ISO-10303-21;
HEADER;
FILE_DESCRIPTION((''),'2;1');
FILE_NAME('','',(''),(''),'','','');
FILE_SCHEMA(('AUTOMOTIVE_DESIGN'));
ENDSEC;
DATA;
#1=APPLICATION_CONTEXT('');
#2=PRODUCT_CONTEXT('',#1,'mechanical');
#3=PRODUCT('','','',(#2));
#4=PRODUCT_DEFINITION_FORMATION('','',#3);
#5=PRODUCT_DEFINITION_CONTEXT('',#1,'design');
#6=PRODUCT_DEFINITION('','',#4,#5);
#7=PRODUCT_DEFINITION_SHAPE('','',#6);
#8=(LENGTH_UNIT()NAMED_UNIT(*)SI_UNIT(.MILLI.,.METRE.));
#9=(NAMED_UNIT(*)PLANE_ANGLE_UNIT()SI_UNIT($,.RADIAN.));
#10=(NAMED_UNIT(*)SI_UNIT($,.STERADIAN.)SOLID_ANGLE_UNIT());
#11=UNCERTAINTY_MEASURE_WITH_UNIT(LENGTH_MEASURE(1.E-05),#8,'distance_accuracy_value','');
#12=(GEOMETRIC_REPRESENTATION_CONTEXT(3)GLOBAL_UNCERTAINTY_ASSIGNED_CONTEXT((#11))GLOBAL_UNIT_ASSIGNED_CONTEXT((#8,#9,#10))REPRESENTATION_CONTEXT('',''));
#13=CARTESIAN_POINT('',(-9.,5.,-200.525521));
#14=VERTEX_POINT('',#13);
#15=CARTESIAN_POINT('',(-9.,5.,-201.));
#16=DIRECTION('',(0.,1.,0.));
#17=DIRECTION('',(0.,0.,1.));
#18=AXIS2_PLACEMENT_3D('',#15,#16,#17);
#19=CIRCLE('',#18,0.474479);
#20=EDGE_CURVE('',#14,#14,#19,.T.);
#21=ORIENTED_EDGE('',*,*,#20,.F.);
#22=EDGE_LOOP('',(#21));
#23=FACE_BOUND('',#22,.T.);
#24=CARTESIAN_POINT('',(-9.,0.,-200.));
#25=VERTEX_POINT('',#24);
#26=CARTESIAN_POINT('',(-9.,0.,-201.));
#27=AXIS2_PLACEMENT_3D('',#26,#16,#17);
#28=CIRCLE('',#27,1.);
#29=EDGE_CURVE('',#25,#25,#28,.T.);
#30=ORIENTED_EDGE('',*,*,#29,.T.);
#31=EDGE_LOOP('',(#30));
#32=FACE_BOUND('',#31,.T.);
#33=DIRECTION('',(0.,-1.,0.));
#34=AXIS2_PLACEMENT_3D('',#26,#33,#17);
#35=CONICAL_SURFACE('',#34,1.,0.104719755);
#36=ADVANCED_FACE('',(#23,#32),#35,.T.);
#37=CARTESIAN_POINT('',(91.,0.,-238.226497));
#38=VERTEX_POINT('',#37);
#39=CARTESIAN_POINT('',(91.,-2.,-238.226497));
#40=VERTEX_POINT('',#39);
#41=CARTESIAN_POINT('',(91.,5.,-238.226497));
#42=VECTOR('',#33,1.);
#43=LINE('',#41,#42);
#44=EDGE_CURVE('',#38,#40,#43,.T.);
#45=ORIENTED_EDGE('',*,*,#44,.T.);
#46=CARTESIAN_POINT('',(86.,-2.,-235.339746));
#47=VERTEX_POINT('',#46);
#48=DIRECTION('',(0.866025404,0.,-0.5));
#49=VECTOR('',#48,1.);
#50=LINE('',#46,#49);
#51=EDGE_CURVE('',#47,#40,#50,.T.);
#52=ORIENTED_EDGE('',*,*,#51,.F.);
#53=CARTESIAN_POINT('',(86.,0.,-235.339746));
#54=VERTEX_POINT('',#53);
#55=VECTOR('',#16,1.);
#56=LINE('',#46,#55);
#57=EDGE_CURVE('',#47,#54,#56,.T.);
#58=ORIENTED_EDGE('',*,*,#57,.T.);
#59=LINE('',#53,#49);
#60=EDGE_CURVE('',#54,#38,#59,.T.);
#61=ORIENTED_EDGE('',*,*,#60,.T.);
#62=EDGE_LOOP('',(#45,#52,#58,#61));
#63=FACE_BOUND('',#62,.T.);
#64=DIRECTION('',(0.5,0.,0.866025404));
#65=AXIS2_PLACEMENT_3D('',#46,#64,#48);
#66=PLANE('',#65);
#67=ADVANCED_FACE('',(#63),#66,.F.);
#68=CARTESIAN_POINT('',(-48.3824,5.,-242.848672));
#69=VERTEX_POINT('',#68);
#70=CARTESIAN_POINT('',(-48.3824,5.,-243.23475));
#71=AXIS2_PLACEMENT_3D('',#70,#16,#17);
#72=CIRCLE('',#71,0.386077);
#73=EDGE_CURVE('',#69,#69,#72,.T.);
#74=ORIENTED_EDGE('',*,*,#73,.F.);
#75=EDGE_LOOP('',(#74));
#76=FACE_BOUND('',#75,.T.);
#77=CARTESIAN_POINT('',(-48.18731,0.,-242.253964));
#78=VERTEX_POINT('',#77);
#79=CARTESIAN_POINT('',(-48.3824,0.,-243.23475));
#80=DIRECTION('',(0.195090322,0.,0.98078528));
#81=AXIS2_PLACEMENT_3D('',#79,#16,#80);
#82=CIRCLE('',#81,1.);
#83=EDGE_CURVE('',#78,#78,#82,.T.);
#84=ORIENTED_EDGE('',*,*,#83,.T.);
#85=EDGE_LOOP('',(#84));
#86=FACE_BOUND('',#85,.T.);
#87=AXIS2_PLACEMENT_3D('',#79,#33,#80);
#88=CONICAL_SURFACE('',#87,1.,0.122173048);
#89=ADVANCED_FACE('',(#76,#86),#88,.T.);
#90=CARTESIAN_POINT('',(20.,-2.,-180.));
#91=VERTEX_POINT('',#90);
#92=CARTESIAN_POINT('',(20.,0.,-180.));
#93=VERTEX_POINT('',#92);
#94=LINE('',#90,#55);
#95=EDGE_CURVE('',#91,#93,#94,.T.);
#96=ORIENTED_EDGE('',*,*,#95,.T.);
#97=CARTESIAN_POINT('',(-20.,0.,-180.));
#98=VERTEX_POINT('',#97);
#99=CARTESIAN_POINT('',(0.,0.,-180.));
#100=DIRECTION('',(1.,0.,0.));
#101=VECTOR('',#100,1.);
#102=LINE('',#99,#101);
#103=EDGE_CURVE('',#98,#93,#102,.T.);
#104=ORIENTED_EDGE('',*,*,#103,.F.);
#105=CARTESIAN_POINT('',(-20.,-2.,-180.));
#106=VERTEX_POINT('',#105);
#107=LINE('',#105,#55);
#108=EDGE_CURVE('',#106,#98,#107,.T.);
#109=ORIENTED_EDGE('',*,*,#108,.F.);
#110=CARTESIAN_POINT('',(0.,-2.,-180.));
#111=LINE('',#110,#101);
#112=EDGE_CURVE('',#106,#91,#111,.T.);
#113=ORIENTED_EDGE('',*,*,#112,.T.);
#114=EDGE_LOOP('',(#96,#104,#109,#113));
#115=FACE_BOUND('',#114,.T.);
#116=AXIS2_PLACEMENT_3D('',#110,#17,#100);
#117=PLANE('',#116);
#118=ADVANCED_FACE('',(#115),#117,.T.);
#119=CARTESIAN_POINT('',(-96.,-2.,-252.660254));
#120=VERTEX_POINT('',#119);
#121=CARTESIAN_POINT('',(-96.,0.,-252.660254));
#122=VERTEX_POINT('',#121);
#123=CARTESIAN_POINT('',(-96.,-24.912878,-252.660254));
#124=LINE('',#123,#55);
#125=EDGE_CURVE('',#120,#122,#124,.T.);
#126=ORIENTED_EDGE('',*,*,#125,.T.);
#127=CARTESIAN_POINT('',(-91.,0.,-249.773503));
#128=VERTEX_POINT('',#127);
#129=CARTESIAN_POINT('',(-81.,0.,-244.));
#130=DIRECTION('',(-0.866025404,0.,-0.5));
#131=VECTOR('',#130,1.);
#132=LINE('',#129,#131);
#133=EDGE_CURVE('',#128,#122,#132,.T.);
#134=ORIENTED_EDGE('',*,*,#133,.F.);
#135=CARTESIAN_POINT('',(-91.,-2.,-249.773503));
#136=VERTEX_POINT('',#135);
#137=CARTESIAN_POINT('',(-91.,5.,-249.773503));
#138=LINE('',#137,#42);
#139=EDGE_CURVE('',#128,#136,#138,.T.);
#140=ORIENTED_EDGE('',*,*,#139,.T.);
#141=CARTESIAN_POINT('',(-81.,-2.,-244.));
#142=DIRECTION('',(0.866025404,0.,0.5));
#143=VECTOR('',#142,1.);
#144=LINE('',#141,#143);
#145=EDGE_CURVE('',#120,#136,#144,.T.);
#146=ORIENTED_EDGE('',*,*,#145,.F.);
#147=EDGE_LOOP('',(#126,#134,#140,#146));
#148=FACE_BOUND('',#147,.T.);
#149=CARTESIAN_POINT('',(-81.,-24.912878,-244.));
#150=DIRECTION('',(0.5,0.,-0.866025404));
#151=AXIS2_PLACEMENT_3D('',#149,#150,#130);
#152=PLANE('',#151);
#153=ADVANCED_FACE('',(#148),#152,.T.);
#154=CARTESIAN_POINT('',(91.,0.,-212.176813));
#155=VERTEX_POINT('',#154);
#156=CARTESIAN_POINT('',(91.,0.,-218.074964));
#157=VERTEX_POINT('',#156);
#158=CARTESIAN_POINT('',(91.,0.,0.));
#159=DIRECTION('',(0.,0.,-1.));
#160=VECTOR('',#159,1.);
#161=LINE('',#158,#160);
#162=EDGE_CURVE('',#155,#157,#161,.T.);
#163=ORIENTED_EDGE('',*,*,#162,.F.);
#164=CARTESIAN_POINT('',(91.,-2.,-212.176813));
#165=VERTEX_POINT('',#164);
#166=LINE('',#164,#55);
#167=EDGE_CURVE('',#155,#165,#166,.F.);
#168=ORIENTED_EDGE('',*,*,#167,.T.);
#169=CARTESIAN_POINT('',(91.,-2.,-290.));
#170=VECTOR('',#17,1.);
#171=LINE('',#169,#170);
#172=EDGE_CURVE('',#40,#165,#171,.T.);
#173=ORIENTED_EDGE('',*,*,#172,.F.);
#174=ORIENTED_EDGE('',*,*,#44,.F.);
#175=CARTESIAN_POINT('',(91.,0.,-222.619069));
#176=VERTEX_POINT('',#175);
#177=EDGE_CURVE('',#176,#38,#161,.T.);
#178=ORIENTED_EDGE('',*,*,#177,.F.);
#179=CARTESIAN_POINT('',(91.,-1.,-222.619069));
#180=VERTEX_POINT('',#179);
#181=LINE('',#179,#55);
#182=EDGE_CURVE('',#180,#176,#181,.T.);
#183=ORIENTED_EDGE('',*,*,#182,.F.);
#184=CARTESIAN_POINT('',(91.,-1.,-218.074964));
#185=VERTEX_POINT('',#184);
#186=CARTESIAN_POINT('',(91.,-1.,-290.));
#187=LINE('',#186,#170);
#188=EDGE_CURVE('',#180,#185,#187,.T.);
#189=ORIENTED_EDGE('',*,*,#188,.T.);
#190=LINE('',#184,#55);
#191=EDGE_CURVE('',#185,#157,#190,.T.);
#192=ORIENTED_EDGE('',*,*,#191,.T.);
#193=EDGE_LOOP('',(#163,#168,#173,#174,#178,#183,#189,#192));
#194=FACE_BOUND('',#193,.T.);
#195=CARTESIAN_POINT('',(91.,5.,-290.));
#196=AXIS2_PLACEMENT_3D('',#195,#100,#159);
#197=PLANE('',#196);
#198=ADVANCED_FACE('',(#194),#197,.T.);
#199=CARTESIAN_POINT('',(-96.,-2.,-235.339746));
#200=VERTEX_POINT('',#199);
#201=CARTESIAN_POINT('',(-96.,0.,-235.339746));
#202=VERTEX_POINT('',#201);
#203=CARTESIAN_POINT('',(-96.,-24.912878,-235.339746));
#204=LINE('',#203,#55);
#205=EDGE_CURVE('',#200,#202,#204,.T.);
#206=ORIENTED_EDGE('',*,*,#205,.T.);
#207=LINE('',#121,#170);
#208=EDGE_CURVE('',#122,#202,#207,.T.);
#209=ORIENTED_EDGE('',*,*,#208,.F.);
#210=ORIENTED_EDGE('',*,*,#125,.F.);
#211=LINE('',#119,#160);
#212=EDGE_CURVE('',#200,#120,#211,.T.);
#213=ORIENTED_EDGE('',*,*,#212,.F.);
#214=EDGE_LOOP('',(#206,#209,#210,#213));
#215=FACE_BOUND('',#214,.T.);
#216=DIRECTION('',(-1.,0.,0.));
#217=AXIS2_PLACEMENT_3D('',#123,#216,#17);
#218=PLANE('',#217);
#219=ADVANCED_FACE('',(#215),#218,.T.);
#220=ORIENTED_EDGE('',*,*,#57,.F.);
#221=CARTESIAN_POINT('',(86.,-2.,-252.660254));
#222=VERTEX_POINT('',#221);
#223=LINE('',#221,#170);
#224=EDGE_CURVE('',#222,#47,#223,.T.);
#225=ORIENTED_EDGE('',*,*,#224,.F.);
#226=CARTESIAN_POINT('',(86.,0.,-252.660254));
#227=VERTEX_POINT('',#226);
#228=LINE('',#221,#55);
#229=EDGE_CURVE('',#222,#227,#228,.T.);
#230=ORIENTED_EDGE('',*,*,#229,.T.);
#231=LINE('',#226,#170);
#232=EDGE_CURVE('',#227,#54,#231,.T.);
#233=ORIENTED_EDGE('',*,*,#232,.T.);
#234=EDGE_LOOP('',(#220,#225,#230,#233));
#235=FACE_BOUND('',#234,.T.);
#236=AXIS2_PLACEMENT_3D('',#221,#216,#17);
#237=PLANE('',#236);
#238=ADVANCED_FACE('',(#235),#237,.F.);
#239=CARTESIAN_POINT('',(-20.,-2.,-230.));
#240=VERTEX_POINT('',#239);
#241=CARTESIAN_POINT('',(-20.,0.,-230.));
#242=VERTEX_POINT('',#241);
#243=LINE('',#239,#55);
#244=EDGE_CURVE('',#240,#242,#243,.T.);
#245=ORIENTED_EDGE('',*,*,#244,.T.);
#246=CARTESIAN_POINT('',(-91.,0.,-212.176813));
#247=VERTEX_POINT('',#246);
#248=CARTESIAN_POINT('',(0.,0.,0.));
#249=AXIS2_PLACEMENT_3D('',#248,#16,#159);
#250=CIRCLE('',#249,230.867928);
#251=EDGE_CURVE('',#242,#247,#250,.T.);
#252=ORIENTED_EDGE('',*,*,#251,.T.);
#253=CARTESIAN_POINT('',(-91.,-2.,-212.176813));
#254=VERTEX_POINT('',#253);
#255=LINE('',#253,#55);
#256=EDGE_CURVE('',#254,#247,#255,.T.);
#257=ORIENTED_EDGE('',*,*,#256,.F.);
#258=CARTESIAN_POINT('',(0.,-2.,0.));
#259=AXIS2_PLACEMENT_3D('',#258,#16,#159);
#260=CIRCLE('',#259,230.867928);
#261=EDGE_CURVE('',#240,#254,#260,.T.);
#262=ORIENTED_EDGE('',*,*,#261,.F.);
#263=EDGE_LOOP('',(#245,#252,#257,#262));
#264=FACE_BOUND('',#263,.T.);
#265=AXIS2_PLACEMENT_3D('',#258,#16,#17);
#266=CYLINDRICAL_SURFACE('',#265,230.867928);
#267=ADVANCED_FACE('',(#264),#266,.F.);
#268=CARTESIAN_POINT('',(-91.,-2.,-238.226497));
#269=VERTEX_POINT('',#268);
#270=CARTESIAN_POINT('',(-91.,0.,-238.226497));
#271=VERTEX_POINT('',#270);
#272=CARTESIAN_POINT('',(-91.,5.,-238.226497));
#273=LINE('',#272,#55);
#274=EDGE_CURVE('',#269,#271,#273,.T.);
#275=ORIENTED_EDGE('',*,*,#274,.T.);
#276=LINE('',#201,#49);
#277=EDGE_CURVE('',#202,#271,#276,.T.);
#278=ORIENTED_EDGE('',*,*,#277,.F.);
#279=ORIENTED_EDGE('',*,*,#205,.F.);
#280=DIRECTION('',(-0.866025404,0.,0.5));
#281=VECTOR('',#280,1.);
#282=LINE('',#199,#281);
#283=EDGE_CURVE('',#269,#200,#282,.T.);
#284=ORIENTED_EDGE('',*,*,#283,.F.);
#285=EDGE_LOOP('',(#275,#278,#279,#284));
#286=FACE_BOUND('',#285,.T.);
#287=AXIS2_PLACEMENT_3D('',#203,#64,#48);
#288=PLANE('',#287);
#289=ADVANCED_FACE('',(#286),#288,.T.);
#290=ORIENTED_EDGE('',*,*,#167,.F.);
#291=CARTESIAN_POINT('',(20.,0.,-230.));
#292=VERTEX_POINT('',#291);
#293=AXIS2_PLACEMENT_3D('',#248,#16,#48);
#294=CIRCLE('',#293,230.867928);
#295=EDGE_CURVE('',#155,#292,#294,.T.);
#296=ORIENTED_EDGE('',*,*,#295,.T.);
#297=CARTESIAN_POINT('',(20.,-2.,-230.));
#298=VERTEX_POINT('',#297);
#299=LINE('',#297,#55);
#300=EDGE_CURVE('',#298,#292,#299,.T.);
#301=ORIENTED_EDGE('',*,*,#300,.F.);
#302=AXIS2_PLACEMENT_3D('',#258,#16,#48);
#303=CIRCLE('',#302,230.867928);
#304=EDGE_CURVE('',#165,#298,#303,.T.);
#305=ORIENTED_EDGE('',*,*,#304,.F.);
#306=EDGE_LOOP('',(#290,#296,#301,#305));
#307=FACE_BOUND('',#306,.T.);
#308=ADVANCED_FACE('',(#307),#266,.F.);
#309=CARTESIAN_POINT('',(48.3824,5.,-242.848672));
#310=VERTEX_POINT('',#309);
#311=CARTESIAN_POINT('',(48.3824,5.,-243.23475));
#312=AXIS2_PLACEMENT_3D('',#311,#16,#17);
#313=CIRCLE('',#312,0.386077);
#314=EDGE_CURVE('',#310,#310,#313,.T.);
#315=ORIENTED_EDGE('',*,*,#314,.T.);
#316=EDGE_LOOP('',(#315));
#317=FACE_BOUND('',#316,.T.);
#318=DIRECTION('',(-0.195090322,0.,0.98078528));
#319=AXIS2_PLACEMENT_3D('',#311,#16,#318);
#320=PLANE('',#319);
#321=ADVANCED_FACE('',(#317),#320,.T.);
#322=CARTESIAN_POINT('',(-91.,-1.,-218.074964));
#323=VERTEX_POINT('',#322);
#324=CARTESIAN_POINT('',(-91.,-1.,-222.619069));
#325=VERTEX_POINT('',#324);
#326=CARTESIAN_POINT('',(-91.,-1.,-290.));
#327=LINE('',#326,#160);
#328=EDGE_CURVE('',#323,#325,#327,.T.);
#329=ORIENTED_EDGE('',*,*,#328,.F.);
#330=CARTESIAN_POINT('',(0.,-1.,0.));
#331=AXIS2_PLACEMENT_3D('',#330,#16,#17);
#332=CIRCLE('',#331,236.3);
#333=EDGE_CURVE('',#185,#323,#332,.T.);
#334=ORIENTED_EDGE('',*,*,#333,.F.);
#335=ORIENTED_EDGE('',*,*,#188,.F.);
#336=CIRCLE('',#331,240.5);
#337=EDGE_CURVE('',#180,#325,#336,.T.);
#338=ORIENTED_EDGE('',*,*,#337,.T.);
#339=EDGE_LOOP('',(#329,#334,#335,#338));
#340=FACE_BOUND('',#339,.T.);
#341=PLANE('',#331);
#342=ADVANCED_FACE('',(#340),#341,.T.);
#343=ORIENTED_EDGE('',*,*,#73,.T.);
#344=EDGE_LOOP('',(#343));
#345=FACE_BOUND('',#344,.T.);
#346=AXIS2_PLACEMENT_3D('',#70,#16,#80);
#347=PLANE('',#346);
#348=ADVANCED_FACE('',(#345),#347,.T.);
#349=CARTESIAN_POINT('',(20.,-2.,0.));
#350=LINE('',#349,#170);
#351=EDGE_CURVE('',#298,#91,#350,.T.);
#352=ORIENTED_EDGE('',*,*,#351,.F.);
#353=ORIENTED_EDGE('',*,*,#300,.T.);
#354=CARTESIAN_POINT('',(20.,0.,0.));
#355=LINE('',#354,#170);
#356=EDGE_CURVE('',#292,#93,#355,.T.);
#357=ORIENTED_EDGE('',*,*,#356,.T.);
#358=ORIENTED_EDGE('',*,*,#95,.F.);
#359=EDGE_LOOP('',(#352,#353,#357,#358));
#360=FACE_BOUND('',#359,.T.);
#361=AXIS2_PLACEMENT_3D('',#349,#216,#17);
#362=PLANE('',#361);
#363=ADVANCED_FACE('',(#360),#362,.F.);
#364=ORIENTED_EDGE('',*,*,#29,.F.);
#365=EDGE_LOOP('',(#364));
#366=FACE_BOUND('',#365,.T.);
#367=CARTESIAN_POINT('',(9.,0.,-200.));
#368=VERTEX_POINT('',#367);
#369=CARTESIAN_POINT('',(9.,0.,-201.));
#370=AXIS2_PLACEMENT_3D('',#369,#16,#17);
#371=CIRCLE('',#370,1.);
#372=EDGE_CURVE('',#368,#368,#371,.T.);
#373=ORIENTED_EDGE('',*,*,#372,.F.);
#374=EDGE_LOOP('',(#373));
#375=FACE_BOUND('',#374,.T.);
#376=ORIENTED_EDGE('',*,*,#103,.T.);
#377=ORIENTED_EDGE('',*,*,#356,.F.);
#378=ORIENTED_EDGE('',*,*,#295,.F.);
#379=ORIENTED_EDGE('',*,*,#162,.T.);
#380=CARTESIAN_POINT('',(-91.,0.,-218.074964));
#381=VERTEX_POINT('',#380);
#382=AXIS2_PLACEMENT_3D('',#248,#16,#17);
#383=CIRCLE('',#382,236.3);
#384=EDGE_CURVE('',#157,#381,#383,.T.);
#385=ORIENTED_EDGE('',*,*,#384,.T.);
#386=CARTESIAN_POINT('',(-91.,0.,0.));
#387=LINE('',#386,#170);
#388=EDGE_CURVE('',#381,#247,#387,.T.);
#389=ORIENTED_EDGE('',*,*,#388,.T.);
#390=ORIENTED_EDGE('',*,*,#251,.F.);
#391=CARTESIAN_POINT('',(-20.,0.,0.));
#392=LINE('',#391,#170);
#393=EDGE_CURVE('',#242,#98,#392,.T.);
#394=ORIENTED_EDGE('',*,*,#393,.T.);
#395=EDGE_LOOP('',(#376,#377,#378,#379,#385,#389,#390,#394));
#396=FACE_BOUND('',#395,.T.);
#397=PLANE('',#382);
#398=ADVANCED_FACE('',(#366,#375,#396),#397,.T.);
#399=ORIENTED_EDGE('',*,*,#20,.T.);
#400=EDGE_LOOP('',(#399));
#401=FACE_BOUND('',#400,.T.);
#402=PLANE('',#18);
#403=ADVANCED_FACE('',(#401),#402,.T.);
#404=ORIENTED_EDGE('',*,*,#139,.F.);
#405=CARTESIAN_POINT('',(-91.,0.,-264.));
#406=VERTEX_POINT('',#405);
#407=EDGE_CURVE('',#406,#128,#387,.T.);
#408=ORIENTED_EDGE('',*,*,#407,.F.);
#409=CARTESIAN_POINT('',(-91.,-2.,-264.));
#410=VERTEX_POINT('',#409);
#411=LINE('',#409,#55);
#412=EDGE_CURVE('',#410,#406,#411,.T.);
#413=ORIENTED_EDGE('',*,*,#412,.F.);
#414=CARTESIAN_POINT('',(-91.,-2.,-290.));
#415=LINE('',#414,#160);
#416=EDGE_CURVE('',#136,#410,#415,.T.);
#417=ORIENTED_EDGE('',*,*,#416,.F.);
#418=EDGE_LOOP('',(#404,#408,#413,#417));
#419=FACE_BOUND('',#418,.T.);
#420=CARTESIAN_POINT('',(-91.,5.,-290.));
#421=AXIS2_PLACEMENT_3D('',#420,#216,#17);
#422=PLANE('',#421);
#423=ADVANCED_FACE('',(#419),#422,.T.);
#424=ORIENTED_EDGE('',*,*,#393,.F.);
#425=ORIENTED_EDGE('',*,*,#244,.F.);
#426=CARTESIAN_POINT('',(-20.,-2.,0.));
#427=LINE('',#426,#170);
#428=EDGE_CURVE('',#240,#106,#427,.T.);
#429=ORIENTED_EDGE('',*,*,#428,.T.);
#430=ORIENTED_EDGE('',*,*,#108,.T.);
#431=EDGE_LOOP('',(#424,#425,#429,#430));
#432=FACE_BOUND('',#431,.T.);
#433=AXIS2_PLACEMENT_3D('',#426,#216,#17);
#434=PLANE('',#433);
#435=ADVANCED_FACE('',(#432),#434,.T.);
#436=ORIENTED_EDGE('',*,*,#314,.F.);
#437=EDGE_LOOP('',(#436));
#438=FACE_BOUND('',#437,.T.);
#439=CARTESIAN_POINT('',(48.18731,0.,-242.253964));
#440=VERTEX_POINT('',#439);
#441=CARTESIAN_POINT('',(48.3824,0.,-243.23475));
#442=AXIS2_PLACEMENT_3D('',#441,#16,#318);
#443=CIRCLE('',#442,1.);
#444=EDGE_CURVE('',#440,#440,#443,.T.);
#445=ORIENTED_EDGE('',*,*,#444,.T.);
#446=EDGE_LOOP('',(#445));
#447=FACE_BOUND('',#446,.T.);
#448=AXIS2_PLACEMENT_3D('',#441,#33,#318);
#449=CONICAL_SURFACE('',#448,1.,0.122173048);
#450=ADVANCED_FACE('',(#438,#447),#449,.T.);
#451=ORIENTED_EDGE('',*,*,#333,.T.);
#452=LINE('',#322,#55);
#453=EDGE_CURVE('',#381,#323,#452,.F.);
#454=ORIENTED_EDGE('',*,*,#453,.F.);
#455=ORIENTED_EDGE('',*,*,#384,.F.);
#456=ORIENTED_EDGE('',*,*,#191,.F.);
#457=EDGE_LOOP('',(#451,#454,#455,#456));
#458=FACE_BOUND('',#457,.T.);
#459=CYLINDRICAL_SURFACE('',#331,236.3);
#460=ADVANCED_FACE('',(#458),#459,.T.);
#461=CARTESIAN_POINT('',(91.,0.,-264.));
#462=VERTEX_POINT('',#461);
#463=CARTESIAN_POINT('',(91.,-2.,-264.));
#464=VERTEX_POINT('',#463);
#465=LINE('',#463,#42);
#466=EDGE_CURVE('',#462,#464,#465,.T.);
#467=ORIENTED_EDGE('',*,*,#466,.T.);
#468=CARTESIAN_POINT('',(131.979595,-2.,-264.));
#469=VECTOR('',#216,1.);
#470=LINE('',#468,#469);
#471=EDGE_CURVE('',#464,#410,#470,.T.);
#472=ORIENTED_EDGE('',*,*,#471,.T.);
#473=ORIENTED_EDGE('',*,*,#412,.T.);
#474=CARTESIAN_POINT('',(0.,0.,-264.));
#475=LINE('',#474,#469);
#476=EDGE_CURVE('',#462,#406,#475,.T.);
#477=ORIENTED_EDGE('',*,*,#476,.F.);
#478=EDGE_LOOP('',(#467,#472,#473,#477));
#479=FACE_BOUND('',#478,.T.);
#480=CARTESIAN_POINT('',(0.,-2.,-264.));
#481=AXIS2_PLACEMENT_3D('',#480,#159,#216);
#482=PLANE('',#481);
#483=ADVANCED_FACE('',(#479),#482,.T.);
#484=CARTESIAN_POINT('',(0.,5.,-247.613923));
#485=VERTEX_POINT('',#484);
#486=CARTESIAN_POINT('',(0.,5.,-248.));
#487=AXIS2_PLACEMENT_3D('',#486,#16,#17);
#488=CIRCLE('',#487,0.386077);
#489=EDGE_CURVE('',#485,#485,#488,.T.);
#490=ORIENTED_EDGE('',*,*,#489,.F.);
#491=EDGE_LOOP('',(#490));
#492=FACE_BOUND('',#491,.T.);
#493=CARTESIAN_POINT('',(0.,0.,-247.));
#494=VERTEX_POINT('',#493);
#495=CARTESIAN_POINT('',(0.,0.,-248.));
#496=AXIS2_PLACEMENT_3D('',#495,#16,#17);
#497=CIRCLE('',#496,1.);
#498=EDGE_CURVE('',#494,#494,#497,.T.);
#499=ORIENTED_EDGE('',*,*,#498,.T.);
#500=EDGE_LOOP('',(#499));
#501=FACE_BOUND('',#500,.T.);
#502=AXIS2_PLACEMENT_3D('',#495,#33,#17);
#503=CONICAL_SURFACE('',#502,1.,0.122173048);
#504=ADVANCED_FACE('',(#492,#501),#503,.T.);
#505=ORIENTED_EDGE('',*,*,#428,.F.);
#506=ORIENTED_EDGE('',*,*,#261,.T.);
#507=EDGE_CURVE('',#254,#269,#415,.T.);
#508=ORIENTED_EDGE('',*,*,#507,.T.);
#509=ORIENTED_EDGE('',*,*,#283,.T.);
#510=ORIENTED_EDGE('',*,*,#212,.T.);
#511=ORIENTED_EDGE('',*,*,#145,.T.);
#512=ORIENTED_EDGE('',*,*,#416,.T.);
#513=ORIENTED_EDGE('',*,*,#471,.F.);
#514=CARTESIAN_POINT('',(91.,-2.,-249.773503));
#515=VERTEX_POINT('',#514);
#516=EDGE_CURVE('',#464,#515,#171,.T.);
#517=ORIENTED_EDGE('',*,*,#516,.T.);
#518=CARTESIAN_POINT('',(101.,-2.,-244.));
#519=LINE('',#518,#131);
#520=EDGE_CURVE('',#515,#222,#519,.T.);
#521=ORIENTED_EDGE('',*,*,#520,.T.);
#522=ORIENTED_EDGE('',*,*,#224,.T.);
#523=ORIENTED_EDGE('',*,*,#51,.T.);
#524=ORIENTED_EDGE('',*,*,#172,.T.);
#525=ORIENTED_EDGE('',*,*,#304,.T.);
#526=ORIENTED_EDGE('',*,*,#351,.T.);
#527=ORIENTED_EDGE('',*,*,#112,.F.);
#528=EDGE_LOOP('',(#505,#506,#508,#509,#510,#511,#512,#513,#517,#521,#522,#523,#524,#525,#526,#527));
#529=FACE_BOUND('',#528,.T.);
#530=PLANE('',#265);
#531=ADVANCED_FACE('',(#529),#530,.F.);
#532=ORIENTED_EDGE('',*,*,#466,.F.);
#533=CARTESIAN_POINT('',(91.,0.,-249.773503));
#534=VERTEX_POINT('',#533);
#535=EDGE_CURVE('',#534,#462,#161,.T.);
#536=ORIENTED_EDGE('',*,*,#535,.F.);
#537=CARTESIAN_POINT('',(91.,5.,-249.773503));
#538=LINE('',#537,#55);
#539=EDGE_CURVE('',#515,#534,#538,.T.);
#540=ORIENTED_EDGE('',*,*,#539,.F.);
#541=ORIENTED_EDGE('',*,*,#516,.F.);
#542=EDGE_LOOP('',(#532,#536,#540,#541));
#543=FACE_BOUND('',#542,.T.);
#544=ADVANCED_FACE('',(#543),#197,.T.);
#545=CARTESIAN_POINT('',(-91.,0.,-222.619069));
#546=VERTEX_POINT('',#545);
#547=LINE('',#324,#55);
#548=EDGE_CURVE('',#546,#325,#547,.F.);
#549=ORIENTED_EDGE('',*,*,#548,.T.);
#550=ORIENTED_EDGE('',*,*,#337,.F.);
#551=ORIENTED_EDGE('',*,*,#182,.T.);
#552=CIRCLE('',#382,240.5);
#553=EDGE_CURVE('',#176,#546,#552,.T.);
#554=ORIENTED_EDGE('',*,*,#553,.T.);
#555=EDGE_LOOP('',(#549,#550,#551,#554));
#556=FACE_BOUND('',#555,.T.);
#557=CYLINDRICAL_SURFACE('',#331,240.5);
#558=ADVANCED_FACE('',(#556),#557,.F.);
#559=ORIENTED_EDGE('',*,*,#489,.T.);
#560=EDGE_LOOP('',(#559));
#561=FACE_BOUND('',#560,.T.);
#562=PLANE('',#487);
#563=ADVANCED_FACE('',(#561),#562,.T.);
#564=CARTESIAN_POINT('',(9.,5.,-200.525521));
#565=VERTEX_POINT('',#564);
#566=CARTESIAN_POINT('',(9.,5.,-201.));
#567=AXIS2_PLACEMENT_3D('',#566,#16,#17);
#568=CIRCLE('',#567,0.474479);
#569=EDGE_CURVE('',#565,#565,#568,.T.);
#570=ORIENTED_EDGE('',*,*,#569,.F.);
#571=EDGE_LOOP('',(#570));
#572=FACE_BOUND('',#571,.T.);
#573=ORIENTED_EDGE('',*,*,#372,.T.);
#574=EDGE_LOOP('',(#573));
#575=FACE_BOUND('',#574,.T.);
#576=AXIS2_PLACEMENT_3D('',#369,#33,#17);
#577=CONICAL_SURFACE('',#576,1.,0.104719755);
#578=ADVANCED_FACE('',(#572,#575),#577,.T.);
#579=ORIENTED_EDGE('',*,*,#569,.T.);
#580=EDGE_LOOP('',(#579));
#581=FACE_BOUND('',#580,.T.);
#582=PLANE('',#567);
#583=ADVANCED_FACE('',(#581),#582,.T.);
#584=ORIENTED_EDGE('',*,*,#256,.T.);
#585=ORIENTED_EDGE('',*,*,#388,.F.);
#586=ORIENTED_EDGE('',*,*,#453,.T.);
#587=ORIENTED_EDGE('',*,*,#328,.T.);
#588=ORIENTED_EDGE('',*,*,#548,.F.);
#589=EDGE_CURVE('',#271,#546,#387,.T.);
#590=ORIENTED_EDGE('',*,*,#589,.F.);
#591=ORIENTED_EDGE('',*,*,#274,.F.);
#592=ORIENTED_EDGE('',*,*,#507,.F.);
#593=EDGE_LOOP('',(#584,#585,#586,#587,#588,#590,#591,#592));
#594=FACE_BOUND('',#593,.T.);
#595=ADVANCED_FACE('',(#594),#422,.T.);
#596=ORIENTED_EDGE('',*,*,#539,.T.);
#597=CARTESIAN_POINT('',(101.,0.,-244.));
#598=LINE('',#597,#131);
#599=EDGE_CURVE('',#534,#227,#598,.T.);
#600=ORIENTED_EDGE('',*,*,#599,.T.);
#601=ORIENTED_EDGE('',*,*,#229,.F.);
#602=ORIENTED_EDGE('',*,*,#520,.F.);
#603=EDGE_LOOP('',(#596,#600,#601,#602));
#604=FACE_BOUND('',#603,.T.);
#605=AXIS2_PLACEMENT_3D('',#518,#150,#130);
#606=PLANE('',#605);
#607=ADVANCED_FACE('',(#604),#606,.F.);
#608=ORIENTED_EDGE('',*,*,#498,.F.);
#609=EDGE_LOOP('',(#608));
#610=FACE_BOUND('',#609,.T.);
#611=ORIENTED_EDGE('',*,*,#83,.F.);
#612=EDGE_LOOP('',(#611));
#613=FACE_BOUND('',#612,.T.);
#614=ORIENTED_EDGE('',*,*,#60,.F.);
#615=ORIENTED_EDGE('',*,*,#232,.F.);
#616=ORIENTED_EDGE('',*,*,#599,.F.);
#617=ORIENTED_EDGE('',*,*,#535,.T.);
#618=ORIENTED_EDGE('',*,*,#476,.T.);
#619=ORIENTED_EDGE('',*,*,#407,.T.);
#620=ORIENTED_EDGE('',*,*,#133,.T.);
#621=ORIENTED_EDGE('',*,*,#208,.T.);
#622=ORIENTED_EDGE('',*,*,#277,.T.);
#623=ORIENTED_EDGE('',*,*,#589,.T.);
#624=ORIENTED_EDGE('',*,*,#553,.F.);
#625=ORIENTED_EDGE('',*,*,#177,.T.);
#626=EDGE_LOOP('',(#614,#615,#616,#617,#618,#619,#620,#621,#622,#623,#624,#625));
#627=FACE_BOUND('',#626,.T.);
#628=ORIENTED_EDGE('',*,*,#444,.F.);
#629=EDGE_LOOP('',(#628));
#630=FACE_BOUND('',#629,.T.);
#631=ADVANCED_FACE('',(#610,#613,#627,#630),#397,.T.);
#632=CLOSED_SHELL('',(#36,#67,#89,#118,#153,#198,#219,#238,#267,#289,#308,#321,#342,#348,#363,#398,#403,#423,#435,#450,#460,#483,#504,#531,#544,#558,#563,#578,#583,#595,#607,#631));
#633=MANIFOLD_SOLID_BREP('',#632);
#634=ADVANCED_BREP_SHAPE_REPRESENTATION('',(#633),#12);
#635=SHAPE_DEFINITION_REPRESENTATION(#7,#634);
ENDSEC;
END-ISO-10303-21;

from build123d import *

# Parameters (mm, degrees)
BASEPLATE_PROFILE_DEPTH               = 2
SKETCH2_R                             = 1
M3_PINS_DEPTH                         = 5
M3_PINS_TAPER                         = 7
CIRPATTERN1_COUNT                     = 32
SKETCH4_R                             = 1
PILLAR_PINS_DEPTH                     = 5
PILLAR_PINS_DRAFT                     = 6
PILLAR_PINS_PROFILE_2_DEPTH           = 5
PILLAR_PINS_PROFILE_2_DRAFT           = 6
CIRPATTERN2_COPY_1_SKETCH_R           = 1
CIRPATTERN2_COPY_1_DEPTH              = 5
CIRPATTERN2_COPY_1_DRAFT              = 6
CIRPATTERN2_COPY_2_SKETCH_R           = 1
CIRPATTERN2_COPY_2_DEPTH              = 5
CIRPATTERN2_COPY_2_DRAFT              = 6
CIRPATTERN2_COPY_3_SKETCH_R           = 1
CIRPATTERN2_COPY_3_DEPTH              = 5
CIRPATTERN2_COPY_3_DRAFT              = 6
CIRPATTERN2_COPY_4_SKETCH_R           = 1
CIRPATTERN2_COPY_4_DEPTH              = 5
CIRPATTERN2_COPY_4_DRAFT              = 6
CIRPATTERN2_COPY_5_SKETCH_R           = 1
CIRPATTERN2_COPY_5_DEPTH              = 5
CIRPATTERN2_COPY_5_DRAFT              = 6
CIRPATTERN2_COPY_6_SKETCH_R           = 1
CIRPATTERN2_COPY_6_DEPTH              = 5
CIRPATTERN2_COPY_6_DRAFT              = 6
CIRPATTERN2_COPY_7_SKETCH_R           = 1
CIRPATTERN2_COPY_7_DEPTH              = 5
CIRPATTERN2_COPY_7_DRAFT              = 6
CIRPATTERN2_COPY_8_SKETCH_R           = 1
CIRPATTERN2_COPY_8_DEPTH              = 5
CIRPATTERN2_COPY_8_DRAFT              = 6
CIRPATTERN2_COPY_9_SKETCH_R           = 1
CIRPATTERN2_COPY_9_DEPTH              = 5
CIRPATTERN2_COPY_9_DRAFT              = 6
CIRPATTERN2_COPY_10_SKETCH_R          = 1
CIRPATTERN2_COPY_10_DEPTH             = 5
CIRPATTERN2_COPY_10_DRAFT             = 6
CIRPATTERN2_COPY_11_SKETCH_R          = 1
CIRPATTERN2_COPY_11_DEPTH             = 5
CIRPATTERN2_COPY_11_DRAFT             = 6
CIRPATTERN2_COPY_12_SKETCH_R          = 1
CIRPATTERN2_COPY_12_DEPTH             = 5
CIRPATTERN2_COPY_12_DRAFT             = 6
CIRPATTERN2_COPY_13_SKETCH_R          = 1
CIRPATTERN2_COPY_13_DEPTH             = 5
CIRPATTERN2_COPY_13_DRAFT             = 6
CIRPATTERN2_COPY_14_SKETCH_R          = 1
CIRPATTERN2_COPY_14_DEPTH             = 5
CIRPATTERN2_COPY_14_DRAFT             = 6
CIRPATTERN2_COPY_15_SKETCH_R          = 1
CIRPATTERN2_COPY_15_DEPTH             = 5
CIRPATTERN2_COPY_15_DRAFT             = 6
SKETCH5_R                             = 3
M8_HOLE_1_DEPTH                       = 5
M8_HOLE_1_TAPER                       = 12
M8_1_PATTERN_COUNT                    = 4
SKETCH6_R                             = 3
EXTRUDE_M8_2_DEPTH                    = 5
EXTRUDE_M8_2_TAPER                    = 12
M8_2_PATTERN_COUNT                    = 4
PATTERN_CIRCULAR_M8_3_COUNT           = 2
PATTERN_CIRCULAR_M8_3_ANGLE           = 36.9
PATTERN_CIRCULAR_M8_3_COPY_1_SKETCH_R = 3
PATTERN_CIRCULAR_M8_3_COPY_1_DEPTH    = 5
PATTERN_CIRCULAR_M8_3_COPY_1_TAPER    = 12
PATTERN_CIRCULAR_M8_3_COPY_2_SKETCH_R = 3
PATTERN_CIRCULAR_M8_3_COPY_2_DEPTH    = 5
PATTERN_CIRCULAR_M8_3_COPY_2_TAPER    = 12
PATTERN_CIRCULAR_M8_3_COPY_3_SKETCH_R = 3
PATTERN_CIRCULAR_M8_3_COPY_3_DEPTH    = 5
PATTERN_CIRCULAR_M8_3_COPY_3_TAPER    = 12
CUT_CENTER_DEPTH                      = 374.385859402
CIRPATTERN7_COUNT                     = 6
SKETCH15_W                            = 794.241353176
SKETCH15_H                            = 757.161766401
SKETCH15_W_2                          = 182
SKETCH15_H_2                          = 180
CUT_EXTRUDE3_DEPTH                    = 374.417996354
BOSS_EXTRUDE2_DEPTH                   = 2
CUT_EXTRUDE4_DEPTH                    = 281.95729213
SKETCH18_R                            = 240.5
SKETCH18_R_2                          = 236.3
CUT_EXTRUDE5_DEPTH                    = 1


with BuildPart() as part:
    # Sketch1 → baseplate profile (new body)
    with BuildSketch(Plane(origin=(0, 0, 0), x_dir=(1, 0, 0), z_dir=(0, 1, 0))):
        Polygon((264, 0), (264, 131.98), (131.979594929, 264), (0, 264), (-131.98, 264), (-264, 131.979594929), (-264, 0), (-264, -131.98), (-131.979594929, -264), (0, -264), (131.98, -264), (264, -131.979594929), align=None)
    extrude(amount=-BASEPLATE_PROFILE_DEPTH)

    # Sketch2 → M3 pins (add)
    with BuildSketch(Plane(origin=(0, 0, 0), x_dir=(1, 0, 0), z_dir=(0, 1, 0))):
        with Locations((0, 248)):
            Circle(SKETCH2_R)
    m3_pins = extrude(amount=M3_PINS_DEPTH, taper=M3_PINS_TAPER)

    # CirPattern1: M3 pins ×32 about axis
    cirpattern1_axis = Axis((0, 0, 0), (0, 1, 0))
    for i in range(1, CIRPATTERN1_COUNT):
        add(m3_pins.rotate(cirpattern1_axis, i * 360 / CIRPATTERN1_COUNT))


with BuildPart() as pillar_pins_tool:
    # Sketch4 → pillar pins (with draft: the straight prism first)
    with BuildSketch(Plane(origin=(0, 0, 0), x_dir=(1, 0, 0), z_dir=(0, 1, 0))):
        with Locations((9, 201)):
            Circle(SKETCH4_R)
    extrude(amount=PILLAR_PINS_DEPTH)
    # pillar pins: the draft: its side faces are tilted about the plane it starts from
    pillar_pins_sides = [pillar_pins_tool.faces().sort_by_distance(p)[0] for p in [
        (8, 2.5, -201),
    ]]
    draft(pillar_pins_sides, Plane(origin=(0, 0, 0), x_dir=(1, 0, 0), z_dir=(0, 1, 0)), PILLAR_PINS_DRAFT)


with BuildPart() as part_1:
    add(part.part)

    # pillar pins: add pillar_pins_tool
    add(pillar_pins_tool.part)


with BuildPart() as pillar_pins_profile_2_tool:
    # Sketch4 → pillar pins profile 2 (with draft: the straight prism first)
    with BuildSketch(Plane(origin=(0, 0, 0), x_dir=(1, 0, 0), z_dir=(0, 1, 0))):
        with Locations((-9, 201)):
            Circle(SKETCH4_R)
    extrude(amount=PILLAR_PINS_PROFILE_2_DEPTH)
    # pillar pins profile 2: the draft: its side faces are tilted about the plane it starts from
    pillar_pins_profile_2_sides = [pillar_pins_profile_2_tool.faces().sort_by_distance(p)[0] for p in [
        (-10, 2.5, -201),
    ]]
    draft(pillar_pins_profile_2_sides, Plane(origin=(0, 0, 0), x_dir=(1, 0, 0), z_dir=(0, 1, 0)), PILLAR_PINS_PROFILE_2_DRAFT)


with BuildPart() as part_2:
    add(part_1.part)

    # pillar pins profile 2: add pillar_pins_profile_2_tool
    add(pillar_pins_profile_2_tool.part)


with BuildPart() as cirpattern2_copy_1_tool:
    # CirPattern2 copy 1 sketch → CirPattern2 copy 1 (with draft: the straight prism first)
    with BuildSketch(Plane(origin=(0, 0, 0), x_dir=(0.5000000000000001, 0, -0.8660254037844386), z_dir=(0, 1, 0))):
        with Locations((9, 201)):
            Circle(CIRPATTERN2_COPY_1_SKETCH_R)
    extrude(amount=CIRPATTERN2_COPY_1_DEPTH)
    # CirPattern2 copy 1: the draft: its side faces are tilted about the plane it starts from
    cirpattern2_copy_1_sides = [cirpattern2_copy_1_tool.faces().sort_by_distance(p)[0] for p in [
        (-170.071106161, 2.5, -107.42820323),
    ]]
    draft(cirpattern2_copy_1_sides, Plane(origin=(0, 0, 0), x_dir=(0.5000000000000001, 0, -0.8660254037844386), z_dir=(0, 1, 0)), CIRPATTERN2_COPY_1_DRAFT)


with BuildPart() as part_3:
    add(part_2.part)

    # CirPattern2 copy 1: add cirpattern2_copy_1_tool
    add(cirpattern2_copy_1_tool.part)


with BuildPart() as cirpattern2_copy_2_tool:
    # CirPattern2 copy 2 sketch → CirPattern2 copy 2 (with draft: the straight prism first)
    with BuildSketch(Plane(origin=(0, 0, 0), x_dir=(-0.4999999999999998, 0, -0.8660254037844387), z_dir=(0, 1, 0))):
        with Locations((9, 201)):
            Circle(CIRPATTERN2_COPY_2_SKETCH_R)
    extrude(amount=CIRPATTERN2_COPY_2_DEPTH)
    # CirPattern2 copy 2: the draft: its side faces are tilted about the plane it starts from
    cirpattern2_copy_2_sides = [cirpattern2_copy_2_tool.faces().sort_by_distance(p)[0] for p in [
        (-178.071106161, 2.5, 93.57179677),
    ]]
    draft(cirpattern2_copy_2_sides, Plane(origin=(0, 0, 0), x_dir=(-0.4999999999999998, 0, -0.8660254037844387), z_dir=(0, 1, 0)), CIRPATTERN2_COPY_2_DRAFT)


with BuildPart() as part_4:
    add(part_3.part)

    # CirPattern2 copy 2: add cirpattern2_copy_2_tool
    add(cirpattern2_copy_2_tool.part)


with BuildPart() as cirpattern2_copy_3_tool:
    # CirPattern2 copy 3 sketch → CirPattern2 copy 3 (with draft: the straight prism first)
    with BuildSketch(Plane(origin=(0, 0, 0), x_dir=(-1, 0, 0), z_dir=(0, 1, 0))):
        with Locations((9, 201)):
            Circle(CIRPATTERN2_COPY_3_SKETCH_R)
    extrude(amount=CIRPATTERN2_COPY_3_DEPTH)
    # CirPattern2 copy 3: the draft: its side faces are tilted about the plane it starts from
    cirpattern2_copy_3_sides = [cirpattern2_copy_3_tool.faces().sort_by_distance(p)[0] for p in [
        (-8, 2.5, 201),
    ]]
    draft(cirpattern2_copy_3_sides, Plane(origin=(0, 0, 0), x_dir=(-1, 0, 0), z_dir=(0, 1, 0)), CIRPATTERN2_COPY_3_DRAFT)


with BuildPart() as part_5:
    add(part_4.part)

    # CirPattern2 copy 3: add cirpattern2_copy_3_tool
    add(cirpattern2_copy_3_tool.part)


with BuildPart() as cirpattern2_copy_4_tool:
    # CirPattern2 copy 4 sketch → CirPattern2 copy 4 (with draft: the straight prism first)
    with BuildSketch(Plane(origin=(0, 0, 0), x_dir=(-0.5000000000000004, 0, 0.8660254037844384), z_dir=(0, 1, 0))):
        with Locations((9, 201)):
            Circle(CIRPATTERN2_COPY_4_SKETCH_R)
    extrude(amount=CIRPATTERN2_COPY_4_DEPTH)
    # CirPattern2 copy 4: the draft: its side faces are tilted about the plane it starts from
    cirpattern2_copy_4_sides = [cirpattern2_copy_4_tool.faces().sort_by_distance(p)[0] for p in [
        (170.071106161, 2.5, 107.42820323),
    ]]
    draft(cirpattern2_copy_4_sides, Plane(origin=(0, 0, 0), x_dir=(-0.5000000000000004, 0, 0.8660254037844384), z_dir=(0, 1, 0)), CIRPATTERN2_COPY_4_DRAFT)


with BuildPart() as part_6:
    add(part_5.part)

    # CirPattern2 copy 4: add cirpattern2_copy_4_tool
    add(cirpattern2_copy_4_tool.part)


with BuildPart() as cirpattern2_copy_5_tool:
    # CirPattern2 copy 5 sketch → CirPattern2 copy 5 (with draft: the straight prism first)
    with BuildSketch(Plane(origin=(0, 0, 0), x_dir=(0.5000000000000001, 0, 0.8660254037844386), z_dir=(0, 1, 0))):
        with Locations((9, 201)):
            Circle(CIRPATTERN2_COPY_5_SKETCH_R)
    extrude(amount=CIRPATTERN2_COPY_5_DEPTH)
    # CirPattern2 copy 5: the draft: its side faces are tilted about the plane it starts from
    cirpattern2_copy_5_sides = [cirpattern2_copy_5_tool.faces().sort_by_distance(p)[0] for p in [
        (178.071106161, 2.5, -93.57179677),
    ]]
    draft(cirpattern2_copy_5_sides, Plane(origin=(0, 0, 0), x_dir=(0.5000000000000001, 0, 0.8660254037844386), z_dir=(0, 1, 0)), CIRPATTERN2_COPY_5_DRAFT)


with BuildPart() as part_7:
    add(part_6.part)

    # CirPattern2 copy 5: add cirpattern2_copy_5_tool
    add(cirpattern2_copy_5_tool.part)


with BuildPart() as cirpattern2_copy_6_tool:
    # CirPattern2 copy 6 sketch → CirPattern2 copy 6 (with draft: the straight prism first)
    with BuildSketch(Plane(origin=(0, 0, 0), x_dir=(0.5000000000000001, 0, -0.8660254037844386), z_dir=(0, 1, 0))):
        with Locations((-9, 201)):
            Circle(CIRPATTERN2_COPY_6_SKETCH_R)
    extrude(amount=CIRPATTERN2_COPY_6_DEPTH)
    # CirPattern2 copy 6: the draft: its side faces are tilted about the plane it starts from
    cirpattern2_copy_6_sides = [cirpattern2_copy_6_tool.faces().sort_by_distance(p)[0] for p in [
        (-179.071106161, 2.5, -91.839745962),
    ]]
    draft(cirpattern2_copy_6_sides, Plane(origin=(0, 0, 0), x_dir=(0.5000000000000001, 0, -0.8660254037844386), z_dir=(0, 1, 0)), CIRPATTERN2_COPY_6_DRAFT)


with BuildPart() as part_8:
    add(part_7.part)

    # CirPattern2 copy 6: add cirpattern2_copy_6_tool
    add(cirpattern2_copy_6_tool.part)


with BuildPart() as cirpattern2_copy_7_tool:
    # CirPattern2 copy 7 sketch → CirPattern2 copy 7 (with draft: the straight prism first)
    with BuildSketch(Plane(origin=(0, 0, 0), x_dir=(-0.4999999999999998, 0, -0.8660254037844387), z_dir=(0, 1, 0))):
        with Locations((-9, 201)):
            Circle(CIRPATTERN2_COPY_7_SKETCH_R)
    extrude(amount=CIRPATTERN2_COPY_7_DEPTH)
    # CirPattern2 copy 7: the draft: its side faces are tilted about the plane it starts from
    cirpattern2_copy_7_sides = [cirpattern2_copy_7_tool.faces().sort_by_distance(p)[0] for p in [
        (-169.071106161, 2.5, 109.160254038),
    ]]
    draft(cirpattern2_copy_7_sides, Plane(origin=(0, 0, 0), x_dir=(-0.4999999999999998, 0, -0.8660254037844387), z_dir=(0, 1, 0)), CIRPATTERN2_COPY_7_DRAFT)


with BuildPart() as part_9:
    add(part_8.part)

    # CirPattern2 copy 7: add cirpattern2_copy_7_tool
    add(cirpattern2_copy_7_tool.part)


with BuildPart() as cirpattern2_copy_8_tool:
    # CirPattern2 copy 8 sketch → CirPattern2 copy 8 (with draft: the straight prism first)
    with BuildSketch(Plane(origin=(0, 0, 0), x_dir=(-1, 0, 0), z_dir=(0, 1, 0))):
        with Locations((-9, 201)):
            Circle(CIRPATTERN2_COPY_8_SKETCH_R)
    extrude(amount=CIRPATTERN2_COPY_8_DEPTH)
    # CirPattern2 copy 8: the draft: its side faces are tilted about the plane it starts from
    cirpattern2_copy_8_sides = [cirpattern2_copy_8_tool.faces().sort_by_distance(p)[0] for p in [
        (10, 2.5, 201),
    ]]
    draft(cirpattern2_copy_8_sides, Plane(origin=(0, 0, 0), x_dir=(-1, 0, 0), z_dir=(0, 1, 0)), CIRPATTERN2_COPY_8_DRAFT)


with BuildPart() as part_10:
    add(part_9.part)

    # CirPattern2 copy 8: add cirpattern2_copy_8_tool
    add(cirpattern2_copy_8_tool.part)


with BuildPart() as cirpattern2_copy_9_tool:
    # CirPattern2 copy 9 sketch → CirPattern2 copy 9 (with draft: the straight prism first)
    with BuildSketch(Plane(origin=(0, 0, 0), x_dir=(-0.5000000000000004, 0, 0.8660254037844384), z_dir=(0, 1, 0))):
        with Locations((-9, 201)):
            Circle(CIRPATTERN2_COPY_9_SKETCH_R)
    extrude(amount=CIRPATTERN2_COPY_9_DEPTH)
    # CirPattern2 copy 9: the draft: its side faces are tilted about the plane it starts from
    cirpattern2_copy_9_sides = [cirpattern2_copy_9_tool.faces().sort_by_distance(p)[0] for p in [
        (179.071106161, 2.5, 91.839745962),
    ]]
    draft(cirpattern2_copy_9_sides, Plane(origin=(0, 0, 0), x_dir=(-0.5000000000000004, 0, 0.8660254037844384), z_dir=(0, 1, 0)), CIRPATTERN2_COPY_9_DRAFT)


with BuildPart() as part_11:
    add(part_10.part)

    # CirPattern2 copy 9: add cirpattern2_copy_9_tool
    add(cirpattern2_copy_9_tool.part)


with BuildPart() as cirpattern2_copy_10_tool:
    # CirPattern2 copy 10 sketch → CirPattern2 copy 10 (with draft: the straight prism first)
    with BuildSketch(Plane(origin=(0, 0, 0), x_dir=(0.5000000000000001, 0, 0.8660254037844386), z_dir=(0, 1, 0))):
        with Locations((-9, 201)):
            Circle(CIRPATTERN2_COPY_10_SKETCH_R)
    extrude(amount=CIRPATTERN2_COPY_10_DEPTH)
    # CirPattern2 copy 10: the draft: its side faces are tilted about the plane it starts from
    cirpattern2_copy_10_sides = [cirpattern2_copy_10_tool.faces().sort_by_distance(p)[0] for p in [
        (169.071106161, 2.5, -109.160254038),
    ]]
    draft(cirpattern2_copy_10_sides, Plane(origin=(0, 0, 0), x_dir=(0.5000000000000001, 0, 0.8660254037844386), z_dir=(0, 1, 0)), CIRPATTERN2_COPY_10_DRAFT)


with BuildPart() as part_12:
    add(part_11.part)

    # CirPattern2 copy 10: add cirpattern2_copy_10_tool
    add(cirpattern2_copy_10_tool.part)


with BuildPart() as cirpattern2_copy_11_tool:
    # CirPattern2 copy 11 sketch → CirPattern2 copy 11 (with draft: the straight prism first)
    with BuildSketch(Plane(origin=(0, 0, 0), x_dir=(0.5000000000000001, 0, -0.8660254037844386), z_dir=(0, 1, 0))):
        with Locations((-9, 201)):
            Circle(CIRPATTERN2_COPY_11_SKETCH_R)
    extrude(amount=CIRPATTERN2_COPY_11_DEPTH)
    # CirPattern2 copy 11: the draft: its side faces are tilted about the plane it starts from
    cirpattern2_copy_11_sides = [cirpattern2_copy_11_tool.faces().sort_by_distance(p)[0] for p in [
        (-179.071106161, 2.5, -91.839745962),
    ]]
    draft(cirpattern2_copy_11_sides, Plane(origin=(0, 0, 0), x_dir=(0.5000000000000001, 0, -0.8660254037844386), z_dir=(0, 1, 0)), CIRPATTERN2_COPY_11_DRAFT)


with BuildPart() as part_13:
    add(part_12.part)

    # CirPattern2 copy 11: add cirpattern2_copy_11_tool
    add(cirpattern2_copy_11_tool.part)


with BuildPart() as cirpattern2_copy_12_tool:
    # CirPattern2 copy 12 sketch → CirPattern2 copy 12 (with draft: the straight prism first)
    with BuildSketch(Plane(origin=(0, 0, 0), x_dir=(-0.4999999999999998, 0, -0.8660254037844387), z_dir=(0, 1, 0))):
        with Locations((-9, 201)):
            Circle(CIRPATTERN2_COPY_12_SKETCH_R)
    extrude(amount=CIRPATTERN2_COPY_12_DEPTH)
    # CirPattern2 copy 12: the draft: its side faces are tilted about the plane it starts from
    cirpattern2_copy_12_sides = [cirpattern2_copy_12_tool.faces().sort_by_distance(p)[0] for p in [
        (-169.071106161, 2.5, 109.160254038),
    ]]
    draft(cirpattern2_copy_12_sides, Plane(origin=(0, 0, 0), x_dir=(-0.4999999999999998, 0, -0.8660254037844387), z_dir=(0, 1, 0)), CIRPATTERN2_COPY_12_DRAFT)


with BuildPart() as part_14:
    add(part_13.part)

    # CirPattern2 copy 12: add cirpattern2_copy_12_tool
    add(cirpattern2_copy_12_tool.part)


with BuildPart() as cirpattern2_copy_13_tool:
    # CirPattern2 copy 13 sketch → CirPattern2 copy 13 (with draft: the straight prism first)
    with BuildSketch(Plane(origin=(0, 0, 0), x_dir=(-1, 0, 0), z_dir=(0, 1, 0))):
        with Locations((-9, 201)):
            Circle(CIRPATTERN2_COPY_13_SKETCH_R)
    extrude(amount=CIRPATTERN2_COPY_13_DEPTH)
    # CirPattern2 copy 13: the draft: its side faces are tilted about the plane it starts from
    cirpattern2_copy_13_sides = [cirpattern2_copy_13_tool.faces().sort_by_distance(p)[0] for p in [
        (10, 2.5, 201),
    ]]
    draft(cirpattern2_copy_13_sides, Plane(origin=(0, 0, 0), x_dir=(-1, 0, 0), z_dir=(0, 1, 0)), CIRPATTERN2_COPY_13_DRAFT)


with BuildPart() as part_15:
    add(part_14.part)

    # CirPattern2 copy 13: add cirpattern2_copy_13_tool
    add(cirpattern2_copy_13_tool.part)


with BuildPart() as cirpattern2_copy_14_tool:
    # CirPattern2 copy 14 sketch → CirPattern2 copy 14 (with draft: the straight prism first)
    with BuildSketch(Plane(origin=(0, 0, 0), x_dir=(-0.5000000000000004, 0, 0.8660254037844384), z_dir=(0, 1, 0))):
        with Locations((-9, 201)):
            Circle(CIRPATTERN2_COPY_14_SKETCH_R)
    extrude(amount=CIRPATTERN2_COPY_14_DEPTH)
    # CirPattern2 copy 14: the draft: its side faces are tilted about the plane it starts from
    cirpattern2_copy_14_sides = [cirpattern2_copy_14_tool.faces().sort_by_distance(p)[0] for p in [
        (179.071106161, 2.5, 91.839745962),
    ]]
    draft(cirpattern2_copy_14_sides, Plane(origin=(0, 0, 0), x_dir=(-0.5000000000000004, 0, 0.8660254037844384), z_dir=(0, 1, 0)), CIRPATTERN2_COPY_14_DRAFT)


with BuildPart() as part_16:
    add(part_15.part)

    # CirPattern2 copy 14: add cirpattern2_copy_14_tool
    add(cirpattern2_copy_14_tool.part)


with BuildPart() as cirpattern2_copy_15_tool:
    # CirPattern2 copy 15 sketch → CirPattern2 copy 15 (with draft: the straight prism first)
    with BuildSketch(Plane(origin=(0, 0, 0), x_dir=(0.5000000000000001, 0, 0.8660254037844386), z_dir=(0, 1, 0))):
        with Locations((-9, 201)):
            Circle(CIRPATTERN2_COPY_15_SKETCH_R)
    extrude(amount=CIRPATTERN2_COPY_15_DEPTH)
    # CirPattern2 copy 15: the draft: its side faces are tilted about the plane it starts from
    cirpattern2_copy_15_sides = [cirpattern2_copy_15_tool.faces().sort_by_distance(p)[0] for p in [
        (169.071106161, 2.5, -109.160254038),
    ]]
    draft(cirpattern2_copy_15_sides, Plane(origin=(0, 0, 0), x_dir=(0.5000000000000001, 0, 0.8660254037844386), z_dir=(0, 1, 0)), CIRPATTERN2_COPY_15_DRAFT)


with BuildPart() as part_17:
    add(part_16.part)

    # CirPattern2 copy 15: add cirpattern2_copy_15_tool
    add(cirpattern2_copy_15_tool.part)

    # Sketch5 → M8 hole -1 (add)
    with BuildSketch(Plane(origin=(0, 0, 0), x_dir=(1, 0, 0), z_dir=(0, 1, 0))):
        with Locations((-193.040151264, 193.040151264)):
            Circle(SKETCH5_R)
    m8_hole_1 = extrude(amount=M8_HOLE_1_DEPTH, taper=M8_HOLE_1_TAPER)

    # M8 -1 pattern: M8 hole -1 ×4 about axis
    m8_1_pattern_axis = Axis((0, 0, 0), (0, 1, 0))
    for i in range(1, M8_1_PATTERN_COUNT):
        add(m8_hole_1.rotate(m8_1_pattern_axis, i * 360 / M8_1_PATTERN_COUNT))

    # Sketch6 → M8 -2 (add)
    with BuildSketch(Plane(origin=(0, 0, 0), x_dir=(1, 0, 0), z_dir=(0, 1, 0))):
        with Locations((-125, -250)):
            Circle(SKETCH6_R)
    extrude_m8_2 = extrude(amount=EXTRUDE_M8_2_DEPTH, taper=EXTRUDE_M8_2_TAPER)

    # M8 -2 pattern: M8 -2 ×4 about axis
    m8_2_pattern_axis = Axis((0, 0, 0), (0, 1, 0))
    for i in range(1, M8_2_PATTERN_COUNT):
        add(extrude_m8_2.rotate(m8_2_pattern_axis, i * 360 / M8_2_PATTERN_COUNT))

    # M8 -3: M8 -2 ×2 about axis
    pattern_circular_m8_3_axis = Axis((0, 0, 0), (0, -1, 0))
    for i in range(1, PATTERN_CIRCULAR_M8_3_COUNT):
        add(extrude_m8_2.rotate(pattern_circular_m8_3_axis, i * PATTERN_CIRCULAR_M8_3_ANGLE / (PATTERN_CIRCULAR_M8_3_COUNT - 1)))

    # M8 -3 copy 1 sketch → M8 -3 copy 1 (add)
    with BuildSketch(Plane(origin=(0, 0, 0), x_dir=(0.6004202253258852, 0, -0.7996846584870897), z_dir=(0, 1, 0))):
        with Locations((-125, -250)):
            Circle(PATTERN_CIRCULAR_M8_3_COPY_1_SKETCH_R)
    extrude(amount=PATTERN_CIRCULAR_M8_3_COPY_1_DEPTH, taper=PATTERN_CIRCULAR_M8_3_COPY_1_TAPER)

    # M8 -3 copy 2 sketch → M8 -3 copy 2 (add)
    with BuildSketch(Plane(origin=(0, 0, 0), x_dir=(-0.7996846584870896, 0, -0.6004202253258853), z_dir=(0, 1, 0))):
        with Locations((-125, -250)):
            Circle(PATTERN_CIRCULAR_M8_3_COPY_2_SKETCH_R)
    extrude(amount=PATTERN_CIRCULAR_M8_3_COPY_2_DEPTH, taper=PATTERN_CIRCULAR_M8_3_COPY_2_TAPER)

    # M8 -3 copy 3 sketch → M8 -3 copy 3 (add)
    with BuildSketch(Plane(origin=(0, 0, 0), x_dir=(-0.6004202253258853, 0, 0.7996846584870896), z_dir=(0, 1, 0))):
        with Locations((-125, -250)):
            Circle(PATTERN_CIRCULAR_M8_3_COPY_3_SKETCH_R)
    extrude(amount=PATTERN_CIRCULAR_M8_3_COPY_3_DEPTH, taper=PATTERN_CIRCULAR_M8_3_COPY_3_TAPER)

    # Sketch8 → cut center (cut, through all)
    with BuildSketch(Plane(origin=(0, 0, 0), x_dir=(1, 0, 0), z_dir=(0, 1, 0))):
        with BuildLine():
            Line((115.433963806, -199.937490231), (0, 0))
            Line((0, 0), (0, -180))
            Line((0, -180), (20, -180))
            Line((20, -180), (20, -230))
            ThreePointArc((20, -230), (69.365180469, -220.200980331), (115.433963806, -199.937490231))
        make_face()
        with BuildLine():
            Line((0, -180), (0, 0))
            Line((0, 0), (-115.433963806, -199.937490231))
            ThreePointArc((-115.433963806, -199.937490231), (-69.365180469, -220.200980331), (-20, -230))
            Line((-20, -230), (-20, -180))
            Line((-20, -180), (0, -180))
        make_face()
    cut_center = extrude(amount=-CUT_CENTER_DEPTH, mode=Mode.SUBTRACT)

    # CirPattern7: cut center ×6 about axis
    cirpattern7_axis = Axis((0, 0, 0), (0, 1, 0))
    for i in range(1, CIRPATTERN7_COUNT):
        add(cut_center.rotate(cirpattern7_axis, i * 360 / CIRPATTERN7_COUNT), mode=Mode.SUBTRACT)

    # Sketch15 → Cut-Extrude3 (cut, through all)
    with BuildSketch(Plane(origin=(0, -2, 0), x_dir=(-1, 0, 0), z_dir=(0, -1, 0))):
        with Locations((45.380035271, -59.166137501)):
            Rectangle(SKETCH15_W, SKETCH15_H)
        with Locations((0, 200)):
            Rectangle(SKETCH15_W_2, SKETCH15_H_2, mode=Mode.SUBTRACT)
    extrude(amount=-CUT_EXTRUDE3_DEPTH, mode=Mode.SUBTRACT)

    # Sketch16 → Boss-Extrude2 (add)
    with BuildSketch(Plane(origin=(0, 0, 0), x_dir=(1, 0, 0), z_dir=(0, 1, 0))):
        Polygon((-96, 252.660254038), (-96, 235.339745962), (-81, 244), align=None)
    extrude(amount=-BOSS_EXTRUDE2_DEPTH)

    # Sketch17 → Cut-Extrude4 (cut, through all)
    with BuildSketch(Plane(origin=(0, 0, 0), x_dir=(1, 0, 0), z_dir=(0, 1, 0))):
        Polygon((101, 244), (86, 252.660254038), (86, 235.339745962), align=None)
    extrude(amount=-CUT_EXTRUDE4_DEPTH, mode=Mode.SUBTRACT)

    # Sketch18 → Cut-Extrude5 (cut)
    with BuildSketch(Plane(origin=(0, 0, 0), x_dir=(1, 0, 0), z_dir=(0, 1, 0))):
        Circle(SKETCH18_R)
        Circle(SKETCH18_R_2, mode=Mode.SUBTRACT)
    extrude(amount=-CUT_EXTRUDE5_DEPTH, mode=Mode.SUBTRACT)


solid = part_17.part
